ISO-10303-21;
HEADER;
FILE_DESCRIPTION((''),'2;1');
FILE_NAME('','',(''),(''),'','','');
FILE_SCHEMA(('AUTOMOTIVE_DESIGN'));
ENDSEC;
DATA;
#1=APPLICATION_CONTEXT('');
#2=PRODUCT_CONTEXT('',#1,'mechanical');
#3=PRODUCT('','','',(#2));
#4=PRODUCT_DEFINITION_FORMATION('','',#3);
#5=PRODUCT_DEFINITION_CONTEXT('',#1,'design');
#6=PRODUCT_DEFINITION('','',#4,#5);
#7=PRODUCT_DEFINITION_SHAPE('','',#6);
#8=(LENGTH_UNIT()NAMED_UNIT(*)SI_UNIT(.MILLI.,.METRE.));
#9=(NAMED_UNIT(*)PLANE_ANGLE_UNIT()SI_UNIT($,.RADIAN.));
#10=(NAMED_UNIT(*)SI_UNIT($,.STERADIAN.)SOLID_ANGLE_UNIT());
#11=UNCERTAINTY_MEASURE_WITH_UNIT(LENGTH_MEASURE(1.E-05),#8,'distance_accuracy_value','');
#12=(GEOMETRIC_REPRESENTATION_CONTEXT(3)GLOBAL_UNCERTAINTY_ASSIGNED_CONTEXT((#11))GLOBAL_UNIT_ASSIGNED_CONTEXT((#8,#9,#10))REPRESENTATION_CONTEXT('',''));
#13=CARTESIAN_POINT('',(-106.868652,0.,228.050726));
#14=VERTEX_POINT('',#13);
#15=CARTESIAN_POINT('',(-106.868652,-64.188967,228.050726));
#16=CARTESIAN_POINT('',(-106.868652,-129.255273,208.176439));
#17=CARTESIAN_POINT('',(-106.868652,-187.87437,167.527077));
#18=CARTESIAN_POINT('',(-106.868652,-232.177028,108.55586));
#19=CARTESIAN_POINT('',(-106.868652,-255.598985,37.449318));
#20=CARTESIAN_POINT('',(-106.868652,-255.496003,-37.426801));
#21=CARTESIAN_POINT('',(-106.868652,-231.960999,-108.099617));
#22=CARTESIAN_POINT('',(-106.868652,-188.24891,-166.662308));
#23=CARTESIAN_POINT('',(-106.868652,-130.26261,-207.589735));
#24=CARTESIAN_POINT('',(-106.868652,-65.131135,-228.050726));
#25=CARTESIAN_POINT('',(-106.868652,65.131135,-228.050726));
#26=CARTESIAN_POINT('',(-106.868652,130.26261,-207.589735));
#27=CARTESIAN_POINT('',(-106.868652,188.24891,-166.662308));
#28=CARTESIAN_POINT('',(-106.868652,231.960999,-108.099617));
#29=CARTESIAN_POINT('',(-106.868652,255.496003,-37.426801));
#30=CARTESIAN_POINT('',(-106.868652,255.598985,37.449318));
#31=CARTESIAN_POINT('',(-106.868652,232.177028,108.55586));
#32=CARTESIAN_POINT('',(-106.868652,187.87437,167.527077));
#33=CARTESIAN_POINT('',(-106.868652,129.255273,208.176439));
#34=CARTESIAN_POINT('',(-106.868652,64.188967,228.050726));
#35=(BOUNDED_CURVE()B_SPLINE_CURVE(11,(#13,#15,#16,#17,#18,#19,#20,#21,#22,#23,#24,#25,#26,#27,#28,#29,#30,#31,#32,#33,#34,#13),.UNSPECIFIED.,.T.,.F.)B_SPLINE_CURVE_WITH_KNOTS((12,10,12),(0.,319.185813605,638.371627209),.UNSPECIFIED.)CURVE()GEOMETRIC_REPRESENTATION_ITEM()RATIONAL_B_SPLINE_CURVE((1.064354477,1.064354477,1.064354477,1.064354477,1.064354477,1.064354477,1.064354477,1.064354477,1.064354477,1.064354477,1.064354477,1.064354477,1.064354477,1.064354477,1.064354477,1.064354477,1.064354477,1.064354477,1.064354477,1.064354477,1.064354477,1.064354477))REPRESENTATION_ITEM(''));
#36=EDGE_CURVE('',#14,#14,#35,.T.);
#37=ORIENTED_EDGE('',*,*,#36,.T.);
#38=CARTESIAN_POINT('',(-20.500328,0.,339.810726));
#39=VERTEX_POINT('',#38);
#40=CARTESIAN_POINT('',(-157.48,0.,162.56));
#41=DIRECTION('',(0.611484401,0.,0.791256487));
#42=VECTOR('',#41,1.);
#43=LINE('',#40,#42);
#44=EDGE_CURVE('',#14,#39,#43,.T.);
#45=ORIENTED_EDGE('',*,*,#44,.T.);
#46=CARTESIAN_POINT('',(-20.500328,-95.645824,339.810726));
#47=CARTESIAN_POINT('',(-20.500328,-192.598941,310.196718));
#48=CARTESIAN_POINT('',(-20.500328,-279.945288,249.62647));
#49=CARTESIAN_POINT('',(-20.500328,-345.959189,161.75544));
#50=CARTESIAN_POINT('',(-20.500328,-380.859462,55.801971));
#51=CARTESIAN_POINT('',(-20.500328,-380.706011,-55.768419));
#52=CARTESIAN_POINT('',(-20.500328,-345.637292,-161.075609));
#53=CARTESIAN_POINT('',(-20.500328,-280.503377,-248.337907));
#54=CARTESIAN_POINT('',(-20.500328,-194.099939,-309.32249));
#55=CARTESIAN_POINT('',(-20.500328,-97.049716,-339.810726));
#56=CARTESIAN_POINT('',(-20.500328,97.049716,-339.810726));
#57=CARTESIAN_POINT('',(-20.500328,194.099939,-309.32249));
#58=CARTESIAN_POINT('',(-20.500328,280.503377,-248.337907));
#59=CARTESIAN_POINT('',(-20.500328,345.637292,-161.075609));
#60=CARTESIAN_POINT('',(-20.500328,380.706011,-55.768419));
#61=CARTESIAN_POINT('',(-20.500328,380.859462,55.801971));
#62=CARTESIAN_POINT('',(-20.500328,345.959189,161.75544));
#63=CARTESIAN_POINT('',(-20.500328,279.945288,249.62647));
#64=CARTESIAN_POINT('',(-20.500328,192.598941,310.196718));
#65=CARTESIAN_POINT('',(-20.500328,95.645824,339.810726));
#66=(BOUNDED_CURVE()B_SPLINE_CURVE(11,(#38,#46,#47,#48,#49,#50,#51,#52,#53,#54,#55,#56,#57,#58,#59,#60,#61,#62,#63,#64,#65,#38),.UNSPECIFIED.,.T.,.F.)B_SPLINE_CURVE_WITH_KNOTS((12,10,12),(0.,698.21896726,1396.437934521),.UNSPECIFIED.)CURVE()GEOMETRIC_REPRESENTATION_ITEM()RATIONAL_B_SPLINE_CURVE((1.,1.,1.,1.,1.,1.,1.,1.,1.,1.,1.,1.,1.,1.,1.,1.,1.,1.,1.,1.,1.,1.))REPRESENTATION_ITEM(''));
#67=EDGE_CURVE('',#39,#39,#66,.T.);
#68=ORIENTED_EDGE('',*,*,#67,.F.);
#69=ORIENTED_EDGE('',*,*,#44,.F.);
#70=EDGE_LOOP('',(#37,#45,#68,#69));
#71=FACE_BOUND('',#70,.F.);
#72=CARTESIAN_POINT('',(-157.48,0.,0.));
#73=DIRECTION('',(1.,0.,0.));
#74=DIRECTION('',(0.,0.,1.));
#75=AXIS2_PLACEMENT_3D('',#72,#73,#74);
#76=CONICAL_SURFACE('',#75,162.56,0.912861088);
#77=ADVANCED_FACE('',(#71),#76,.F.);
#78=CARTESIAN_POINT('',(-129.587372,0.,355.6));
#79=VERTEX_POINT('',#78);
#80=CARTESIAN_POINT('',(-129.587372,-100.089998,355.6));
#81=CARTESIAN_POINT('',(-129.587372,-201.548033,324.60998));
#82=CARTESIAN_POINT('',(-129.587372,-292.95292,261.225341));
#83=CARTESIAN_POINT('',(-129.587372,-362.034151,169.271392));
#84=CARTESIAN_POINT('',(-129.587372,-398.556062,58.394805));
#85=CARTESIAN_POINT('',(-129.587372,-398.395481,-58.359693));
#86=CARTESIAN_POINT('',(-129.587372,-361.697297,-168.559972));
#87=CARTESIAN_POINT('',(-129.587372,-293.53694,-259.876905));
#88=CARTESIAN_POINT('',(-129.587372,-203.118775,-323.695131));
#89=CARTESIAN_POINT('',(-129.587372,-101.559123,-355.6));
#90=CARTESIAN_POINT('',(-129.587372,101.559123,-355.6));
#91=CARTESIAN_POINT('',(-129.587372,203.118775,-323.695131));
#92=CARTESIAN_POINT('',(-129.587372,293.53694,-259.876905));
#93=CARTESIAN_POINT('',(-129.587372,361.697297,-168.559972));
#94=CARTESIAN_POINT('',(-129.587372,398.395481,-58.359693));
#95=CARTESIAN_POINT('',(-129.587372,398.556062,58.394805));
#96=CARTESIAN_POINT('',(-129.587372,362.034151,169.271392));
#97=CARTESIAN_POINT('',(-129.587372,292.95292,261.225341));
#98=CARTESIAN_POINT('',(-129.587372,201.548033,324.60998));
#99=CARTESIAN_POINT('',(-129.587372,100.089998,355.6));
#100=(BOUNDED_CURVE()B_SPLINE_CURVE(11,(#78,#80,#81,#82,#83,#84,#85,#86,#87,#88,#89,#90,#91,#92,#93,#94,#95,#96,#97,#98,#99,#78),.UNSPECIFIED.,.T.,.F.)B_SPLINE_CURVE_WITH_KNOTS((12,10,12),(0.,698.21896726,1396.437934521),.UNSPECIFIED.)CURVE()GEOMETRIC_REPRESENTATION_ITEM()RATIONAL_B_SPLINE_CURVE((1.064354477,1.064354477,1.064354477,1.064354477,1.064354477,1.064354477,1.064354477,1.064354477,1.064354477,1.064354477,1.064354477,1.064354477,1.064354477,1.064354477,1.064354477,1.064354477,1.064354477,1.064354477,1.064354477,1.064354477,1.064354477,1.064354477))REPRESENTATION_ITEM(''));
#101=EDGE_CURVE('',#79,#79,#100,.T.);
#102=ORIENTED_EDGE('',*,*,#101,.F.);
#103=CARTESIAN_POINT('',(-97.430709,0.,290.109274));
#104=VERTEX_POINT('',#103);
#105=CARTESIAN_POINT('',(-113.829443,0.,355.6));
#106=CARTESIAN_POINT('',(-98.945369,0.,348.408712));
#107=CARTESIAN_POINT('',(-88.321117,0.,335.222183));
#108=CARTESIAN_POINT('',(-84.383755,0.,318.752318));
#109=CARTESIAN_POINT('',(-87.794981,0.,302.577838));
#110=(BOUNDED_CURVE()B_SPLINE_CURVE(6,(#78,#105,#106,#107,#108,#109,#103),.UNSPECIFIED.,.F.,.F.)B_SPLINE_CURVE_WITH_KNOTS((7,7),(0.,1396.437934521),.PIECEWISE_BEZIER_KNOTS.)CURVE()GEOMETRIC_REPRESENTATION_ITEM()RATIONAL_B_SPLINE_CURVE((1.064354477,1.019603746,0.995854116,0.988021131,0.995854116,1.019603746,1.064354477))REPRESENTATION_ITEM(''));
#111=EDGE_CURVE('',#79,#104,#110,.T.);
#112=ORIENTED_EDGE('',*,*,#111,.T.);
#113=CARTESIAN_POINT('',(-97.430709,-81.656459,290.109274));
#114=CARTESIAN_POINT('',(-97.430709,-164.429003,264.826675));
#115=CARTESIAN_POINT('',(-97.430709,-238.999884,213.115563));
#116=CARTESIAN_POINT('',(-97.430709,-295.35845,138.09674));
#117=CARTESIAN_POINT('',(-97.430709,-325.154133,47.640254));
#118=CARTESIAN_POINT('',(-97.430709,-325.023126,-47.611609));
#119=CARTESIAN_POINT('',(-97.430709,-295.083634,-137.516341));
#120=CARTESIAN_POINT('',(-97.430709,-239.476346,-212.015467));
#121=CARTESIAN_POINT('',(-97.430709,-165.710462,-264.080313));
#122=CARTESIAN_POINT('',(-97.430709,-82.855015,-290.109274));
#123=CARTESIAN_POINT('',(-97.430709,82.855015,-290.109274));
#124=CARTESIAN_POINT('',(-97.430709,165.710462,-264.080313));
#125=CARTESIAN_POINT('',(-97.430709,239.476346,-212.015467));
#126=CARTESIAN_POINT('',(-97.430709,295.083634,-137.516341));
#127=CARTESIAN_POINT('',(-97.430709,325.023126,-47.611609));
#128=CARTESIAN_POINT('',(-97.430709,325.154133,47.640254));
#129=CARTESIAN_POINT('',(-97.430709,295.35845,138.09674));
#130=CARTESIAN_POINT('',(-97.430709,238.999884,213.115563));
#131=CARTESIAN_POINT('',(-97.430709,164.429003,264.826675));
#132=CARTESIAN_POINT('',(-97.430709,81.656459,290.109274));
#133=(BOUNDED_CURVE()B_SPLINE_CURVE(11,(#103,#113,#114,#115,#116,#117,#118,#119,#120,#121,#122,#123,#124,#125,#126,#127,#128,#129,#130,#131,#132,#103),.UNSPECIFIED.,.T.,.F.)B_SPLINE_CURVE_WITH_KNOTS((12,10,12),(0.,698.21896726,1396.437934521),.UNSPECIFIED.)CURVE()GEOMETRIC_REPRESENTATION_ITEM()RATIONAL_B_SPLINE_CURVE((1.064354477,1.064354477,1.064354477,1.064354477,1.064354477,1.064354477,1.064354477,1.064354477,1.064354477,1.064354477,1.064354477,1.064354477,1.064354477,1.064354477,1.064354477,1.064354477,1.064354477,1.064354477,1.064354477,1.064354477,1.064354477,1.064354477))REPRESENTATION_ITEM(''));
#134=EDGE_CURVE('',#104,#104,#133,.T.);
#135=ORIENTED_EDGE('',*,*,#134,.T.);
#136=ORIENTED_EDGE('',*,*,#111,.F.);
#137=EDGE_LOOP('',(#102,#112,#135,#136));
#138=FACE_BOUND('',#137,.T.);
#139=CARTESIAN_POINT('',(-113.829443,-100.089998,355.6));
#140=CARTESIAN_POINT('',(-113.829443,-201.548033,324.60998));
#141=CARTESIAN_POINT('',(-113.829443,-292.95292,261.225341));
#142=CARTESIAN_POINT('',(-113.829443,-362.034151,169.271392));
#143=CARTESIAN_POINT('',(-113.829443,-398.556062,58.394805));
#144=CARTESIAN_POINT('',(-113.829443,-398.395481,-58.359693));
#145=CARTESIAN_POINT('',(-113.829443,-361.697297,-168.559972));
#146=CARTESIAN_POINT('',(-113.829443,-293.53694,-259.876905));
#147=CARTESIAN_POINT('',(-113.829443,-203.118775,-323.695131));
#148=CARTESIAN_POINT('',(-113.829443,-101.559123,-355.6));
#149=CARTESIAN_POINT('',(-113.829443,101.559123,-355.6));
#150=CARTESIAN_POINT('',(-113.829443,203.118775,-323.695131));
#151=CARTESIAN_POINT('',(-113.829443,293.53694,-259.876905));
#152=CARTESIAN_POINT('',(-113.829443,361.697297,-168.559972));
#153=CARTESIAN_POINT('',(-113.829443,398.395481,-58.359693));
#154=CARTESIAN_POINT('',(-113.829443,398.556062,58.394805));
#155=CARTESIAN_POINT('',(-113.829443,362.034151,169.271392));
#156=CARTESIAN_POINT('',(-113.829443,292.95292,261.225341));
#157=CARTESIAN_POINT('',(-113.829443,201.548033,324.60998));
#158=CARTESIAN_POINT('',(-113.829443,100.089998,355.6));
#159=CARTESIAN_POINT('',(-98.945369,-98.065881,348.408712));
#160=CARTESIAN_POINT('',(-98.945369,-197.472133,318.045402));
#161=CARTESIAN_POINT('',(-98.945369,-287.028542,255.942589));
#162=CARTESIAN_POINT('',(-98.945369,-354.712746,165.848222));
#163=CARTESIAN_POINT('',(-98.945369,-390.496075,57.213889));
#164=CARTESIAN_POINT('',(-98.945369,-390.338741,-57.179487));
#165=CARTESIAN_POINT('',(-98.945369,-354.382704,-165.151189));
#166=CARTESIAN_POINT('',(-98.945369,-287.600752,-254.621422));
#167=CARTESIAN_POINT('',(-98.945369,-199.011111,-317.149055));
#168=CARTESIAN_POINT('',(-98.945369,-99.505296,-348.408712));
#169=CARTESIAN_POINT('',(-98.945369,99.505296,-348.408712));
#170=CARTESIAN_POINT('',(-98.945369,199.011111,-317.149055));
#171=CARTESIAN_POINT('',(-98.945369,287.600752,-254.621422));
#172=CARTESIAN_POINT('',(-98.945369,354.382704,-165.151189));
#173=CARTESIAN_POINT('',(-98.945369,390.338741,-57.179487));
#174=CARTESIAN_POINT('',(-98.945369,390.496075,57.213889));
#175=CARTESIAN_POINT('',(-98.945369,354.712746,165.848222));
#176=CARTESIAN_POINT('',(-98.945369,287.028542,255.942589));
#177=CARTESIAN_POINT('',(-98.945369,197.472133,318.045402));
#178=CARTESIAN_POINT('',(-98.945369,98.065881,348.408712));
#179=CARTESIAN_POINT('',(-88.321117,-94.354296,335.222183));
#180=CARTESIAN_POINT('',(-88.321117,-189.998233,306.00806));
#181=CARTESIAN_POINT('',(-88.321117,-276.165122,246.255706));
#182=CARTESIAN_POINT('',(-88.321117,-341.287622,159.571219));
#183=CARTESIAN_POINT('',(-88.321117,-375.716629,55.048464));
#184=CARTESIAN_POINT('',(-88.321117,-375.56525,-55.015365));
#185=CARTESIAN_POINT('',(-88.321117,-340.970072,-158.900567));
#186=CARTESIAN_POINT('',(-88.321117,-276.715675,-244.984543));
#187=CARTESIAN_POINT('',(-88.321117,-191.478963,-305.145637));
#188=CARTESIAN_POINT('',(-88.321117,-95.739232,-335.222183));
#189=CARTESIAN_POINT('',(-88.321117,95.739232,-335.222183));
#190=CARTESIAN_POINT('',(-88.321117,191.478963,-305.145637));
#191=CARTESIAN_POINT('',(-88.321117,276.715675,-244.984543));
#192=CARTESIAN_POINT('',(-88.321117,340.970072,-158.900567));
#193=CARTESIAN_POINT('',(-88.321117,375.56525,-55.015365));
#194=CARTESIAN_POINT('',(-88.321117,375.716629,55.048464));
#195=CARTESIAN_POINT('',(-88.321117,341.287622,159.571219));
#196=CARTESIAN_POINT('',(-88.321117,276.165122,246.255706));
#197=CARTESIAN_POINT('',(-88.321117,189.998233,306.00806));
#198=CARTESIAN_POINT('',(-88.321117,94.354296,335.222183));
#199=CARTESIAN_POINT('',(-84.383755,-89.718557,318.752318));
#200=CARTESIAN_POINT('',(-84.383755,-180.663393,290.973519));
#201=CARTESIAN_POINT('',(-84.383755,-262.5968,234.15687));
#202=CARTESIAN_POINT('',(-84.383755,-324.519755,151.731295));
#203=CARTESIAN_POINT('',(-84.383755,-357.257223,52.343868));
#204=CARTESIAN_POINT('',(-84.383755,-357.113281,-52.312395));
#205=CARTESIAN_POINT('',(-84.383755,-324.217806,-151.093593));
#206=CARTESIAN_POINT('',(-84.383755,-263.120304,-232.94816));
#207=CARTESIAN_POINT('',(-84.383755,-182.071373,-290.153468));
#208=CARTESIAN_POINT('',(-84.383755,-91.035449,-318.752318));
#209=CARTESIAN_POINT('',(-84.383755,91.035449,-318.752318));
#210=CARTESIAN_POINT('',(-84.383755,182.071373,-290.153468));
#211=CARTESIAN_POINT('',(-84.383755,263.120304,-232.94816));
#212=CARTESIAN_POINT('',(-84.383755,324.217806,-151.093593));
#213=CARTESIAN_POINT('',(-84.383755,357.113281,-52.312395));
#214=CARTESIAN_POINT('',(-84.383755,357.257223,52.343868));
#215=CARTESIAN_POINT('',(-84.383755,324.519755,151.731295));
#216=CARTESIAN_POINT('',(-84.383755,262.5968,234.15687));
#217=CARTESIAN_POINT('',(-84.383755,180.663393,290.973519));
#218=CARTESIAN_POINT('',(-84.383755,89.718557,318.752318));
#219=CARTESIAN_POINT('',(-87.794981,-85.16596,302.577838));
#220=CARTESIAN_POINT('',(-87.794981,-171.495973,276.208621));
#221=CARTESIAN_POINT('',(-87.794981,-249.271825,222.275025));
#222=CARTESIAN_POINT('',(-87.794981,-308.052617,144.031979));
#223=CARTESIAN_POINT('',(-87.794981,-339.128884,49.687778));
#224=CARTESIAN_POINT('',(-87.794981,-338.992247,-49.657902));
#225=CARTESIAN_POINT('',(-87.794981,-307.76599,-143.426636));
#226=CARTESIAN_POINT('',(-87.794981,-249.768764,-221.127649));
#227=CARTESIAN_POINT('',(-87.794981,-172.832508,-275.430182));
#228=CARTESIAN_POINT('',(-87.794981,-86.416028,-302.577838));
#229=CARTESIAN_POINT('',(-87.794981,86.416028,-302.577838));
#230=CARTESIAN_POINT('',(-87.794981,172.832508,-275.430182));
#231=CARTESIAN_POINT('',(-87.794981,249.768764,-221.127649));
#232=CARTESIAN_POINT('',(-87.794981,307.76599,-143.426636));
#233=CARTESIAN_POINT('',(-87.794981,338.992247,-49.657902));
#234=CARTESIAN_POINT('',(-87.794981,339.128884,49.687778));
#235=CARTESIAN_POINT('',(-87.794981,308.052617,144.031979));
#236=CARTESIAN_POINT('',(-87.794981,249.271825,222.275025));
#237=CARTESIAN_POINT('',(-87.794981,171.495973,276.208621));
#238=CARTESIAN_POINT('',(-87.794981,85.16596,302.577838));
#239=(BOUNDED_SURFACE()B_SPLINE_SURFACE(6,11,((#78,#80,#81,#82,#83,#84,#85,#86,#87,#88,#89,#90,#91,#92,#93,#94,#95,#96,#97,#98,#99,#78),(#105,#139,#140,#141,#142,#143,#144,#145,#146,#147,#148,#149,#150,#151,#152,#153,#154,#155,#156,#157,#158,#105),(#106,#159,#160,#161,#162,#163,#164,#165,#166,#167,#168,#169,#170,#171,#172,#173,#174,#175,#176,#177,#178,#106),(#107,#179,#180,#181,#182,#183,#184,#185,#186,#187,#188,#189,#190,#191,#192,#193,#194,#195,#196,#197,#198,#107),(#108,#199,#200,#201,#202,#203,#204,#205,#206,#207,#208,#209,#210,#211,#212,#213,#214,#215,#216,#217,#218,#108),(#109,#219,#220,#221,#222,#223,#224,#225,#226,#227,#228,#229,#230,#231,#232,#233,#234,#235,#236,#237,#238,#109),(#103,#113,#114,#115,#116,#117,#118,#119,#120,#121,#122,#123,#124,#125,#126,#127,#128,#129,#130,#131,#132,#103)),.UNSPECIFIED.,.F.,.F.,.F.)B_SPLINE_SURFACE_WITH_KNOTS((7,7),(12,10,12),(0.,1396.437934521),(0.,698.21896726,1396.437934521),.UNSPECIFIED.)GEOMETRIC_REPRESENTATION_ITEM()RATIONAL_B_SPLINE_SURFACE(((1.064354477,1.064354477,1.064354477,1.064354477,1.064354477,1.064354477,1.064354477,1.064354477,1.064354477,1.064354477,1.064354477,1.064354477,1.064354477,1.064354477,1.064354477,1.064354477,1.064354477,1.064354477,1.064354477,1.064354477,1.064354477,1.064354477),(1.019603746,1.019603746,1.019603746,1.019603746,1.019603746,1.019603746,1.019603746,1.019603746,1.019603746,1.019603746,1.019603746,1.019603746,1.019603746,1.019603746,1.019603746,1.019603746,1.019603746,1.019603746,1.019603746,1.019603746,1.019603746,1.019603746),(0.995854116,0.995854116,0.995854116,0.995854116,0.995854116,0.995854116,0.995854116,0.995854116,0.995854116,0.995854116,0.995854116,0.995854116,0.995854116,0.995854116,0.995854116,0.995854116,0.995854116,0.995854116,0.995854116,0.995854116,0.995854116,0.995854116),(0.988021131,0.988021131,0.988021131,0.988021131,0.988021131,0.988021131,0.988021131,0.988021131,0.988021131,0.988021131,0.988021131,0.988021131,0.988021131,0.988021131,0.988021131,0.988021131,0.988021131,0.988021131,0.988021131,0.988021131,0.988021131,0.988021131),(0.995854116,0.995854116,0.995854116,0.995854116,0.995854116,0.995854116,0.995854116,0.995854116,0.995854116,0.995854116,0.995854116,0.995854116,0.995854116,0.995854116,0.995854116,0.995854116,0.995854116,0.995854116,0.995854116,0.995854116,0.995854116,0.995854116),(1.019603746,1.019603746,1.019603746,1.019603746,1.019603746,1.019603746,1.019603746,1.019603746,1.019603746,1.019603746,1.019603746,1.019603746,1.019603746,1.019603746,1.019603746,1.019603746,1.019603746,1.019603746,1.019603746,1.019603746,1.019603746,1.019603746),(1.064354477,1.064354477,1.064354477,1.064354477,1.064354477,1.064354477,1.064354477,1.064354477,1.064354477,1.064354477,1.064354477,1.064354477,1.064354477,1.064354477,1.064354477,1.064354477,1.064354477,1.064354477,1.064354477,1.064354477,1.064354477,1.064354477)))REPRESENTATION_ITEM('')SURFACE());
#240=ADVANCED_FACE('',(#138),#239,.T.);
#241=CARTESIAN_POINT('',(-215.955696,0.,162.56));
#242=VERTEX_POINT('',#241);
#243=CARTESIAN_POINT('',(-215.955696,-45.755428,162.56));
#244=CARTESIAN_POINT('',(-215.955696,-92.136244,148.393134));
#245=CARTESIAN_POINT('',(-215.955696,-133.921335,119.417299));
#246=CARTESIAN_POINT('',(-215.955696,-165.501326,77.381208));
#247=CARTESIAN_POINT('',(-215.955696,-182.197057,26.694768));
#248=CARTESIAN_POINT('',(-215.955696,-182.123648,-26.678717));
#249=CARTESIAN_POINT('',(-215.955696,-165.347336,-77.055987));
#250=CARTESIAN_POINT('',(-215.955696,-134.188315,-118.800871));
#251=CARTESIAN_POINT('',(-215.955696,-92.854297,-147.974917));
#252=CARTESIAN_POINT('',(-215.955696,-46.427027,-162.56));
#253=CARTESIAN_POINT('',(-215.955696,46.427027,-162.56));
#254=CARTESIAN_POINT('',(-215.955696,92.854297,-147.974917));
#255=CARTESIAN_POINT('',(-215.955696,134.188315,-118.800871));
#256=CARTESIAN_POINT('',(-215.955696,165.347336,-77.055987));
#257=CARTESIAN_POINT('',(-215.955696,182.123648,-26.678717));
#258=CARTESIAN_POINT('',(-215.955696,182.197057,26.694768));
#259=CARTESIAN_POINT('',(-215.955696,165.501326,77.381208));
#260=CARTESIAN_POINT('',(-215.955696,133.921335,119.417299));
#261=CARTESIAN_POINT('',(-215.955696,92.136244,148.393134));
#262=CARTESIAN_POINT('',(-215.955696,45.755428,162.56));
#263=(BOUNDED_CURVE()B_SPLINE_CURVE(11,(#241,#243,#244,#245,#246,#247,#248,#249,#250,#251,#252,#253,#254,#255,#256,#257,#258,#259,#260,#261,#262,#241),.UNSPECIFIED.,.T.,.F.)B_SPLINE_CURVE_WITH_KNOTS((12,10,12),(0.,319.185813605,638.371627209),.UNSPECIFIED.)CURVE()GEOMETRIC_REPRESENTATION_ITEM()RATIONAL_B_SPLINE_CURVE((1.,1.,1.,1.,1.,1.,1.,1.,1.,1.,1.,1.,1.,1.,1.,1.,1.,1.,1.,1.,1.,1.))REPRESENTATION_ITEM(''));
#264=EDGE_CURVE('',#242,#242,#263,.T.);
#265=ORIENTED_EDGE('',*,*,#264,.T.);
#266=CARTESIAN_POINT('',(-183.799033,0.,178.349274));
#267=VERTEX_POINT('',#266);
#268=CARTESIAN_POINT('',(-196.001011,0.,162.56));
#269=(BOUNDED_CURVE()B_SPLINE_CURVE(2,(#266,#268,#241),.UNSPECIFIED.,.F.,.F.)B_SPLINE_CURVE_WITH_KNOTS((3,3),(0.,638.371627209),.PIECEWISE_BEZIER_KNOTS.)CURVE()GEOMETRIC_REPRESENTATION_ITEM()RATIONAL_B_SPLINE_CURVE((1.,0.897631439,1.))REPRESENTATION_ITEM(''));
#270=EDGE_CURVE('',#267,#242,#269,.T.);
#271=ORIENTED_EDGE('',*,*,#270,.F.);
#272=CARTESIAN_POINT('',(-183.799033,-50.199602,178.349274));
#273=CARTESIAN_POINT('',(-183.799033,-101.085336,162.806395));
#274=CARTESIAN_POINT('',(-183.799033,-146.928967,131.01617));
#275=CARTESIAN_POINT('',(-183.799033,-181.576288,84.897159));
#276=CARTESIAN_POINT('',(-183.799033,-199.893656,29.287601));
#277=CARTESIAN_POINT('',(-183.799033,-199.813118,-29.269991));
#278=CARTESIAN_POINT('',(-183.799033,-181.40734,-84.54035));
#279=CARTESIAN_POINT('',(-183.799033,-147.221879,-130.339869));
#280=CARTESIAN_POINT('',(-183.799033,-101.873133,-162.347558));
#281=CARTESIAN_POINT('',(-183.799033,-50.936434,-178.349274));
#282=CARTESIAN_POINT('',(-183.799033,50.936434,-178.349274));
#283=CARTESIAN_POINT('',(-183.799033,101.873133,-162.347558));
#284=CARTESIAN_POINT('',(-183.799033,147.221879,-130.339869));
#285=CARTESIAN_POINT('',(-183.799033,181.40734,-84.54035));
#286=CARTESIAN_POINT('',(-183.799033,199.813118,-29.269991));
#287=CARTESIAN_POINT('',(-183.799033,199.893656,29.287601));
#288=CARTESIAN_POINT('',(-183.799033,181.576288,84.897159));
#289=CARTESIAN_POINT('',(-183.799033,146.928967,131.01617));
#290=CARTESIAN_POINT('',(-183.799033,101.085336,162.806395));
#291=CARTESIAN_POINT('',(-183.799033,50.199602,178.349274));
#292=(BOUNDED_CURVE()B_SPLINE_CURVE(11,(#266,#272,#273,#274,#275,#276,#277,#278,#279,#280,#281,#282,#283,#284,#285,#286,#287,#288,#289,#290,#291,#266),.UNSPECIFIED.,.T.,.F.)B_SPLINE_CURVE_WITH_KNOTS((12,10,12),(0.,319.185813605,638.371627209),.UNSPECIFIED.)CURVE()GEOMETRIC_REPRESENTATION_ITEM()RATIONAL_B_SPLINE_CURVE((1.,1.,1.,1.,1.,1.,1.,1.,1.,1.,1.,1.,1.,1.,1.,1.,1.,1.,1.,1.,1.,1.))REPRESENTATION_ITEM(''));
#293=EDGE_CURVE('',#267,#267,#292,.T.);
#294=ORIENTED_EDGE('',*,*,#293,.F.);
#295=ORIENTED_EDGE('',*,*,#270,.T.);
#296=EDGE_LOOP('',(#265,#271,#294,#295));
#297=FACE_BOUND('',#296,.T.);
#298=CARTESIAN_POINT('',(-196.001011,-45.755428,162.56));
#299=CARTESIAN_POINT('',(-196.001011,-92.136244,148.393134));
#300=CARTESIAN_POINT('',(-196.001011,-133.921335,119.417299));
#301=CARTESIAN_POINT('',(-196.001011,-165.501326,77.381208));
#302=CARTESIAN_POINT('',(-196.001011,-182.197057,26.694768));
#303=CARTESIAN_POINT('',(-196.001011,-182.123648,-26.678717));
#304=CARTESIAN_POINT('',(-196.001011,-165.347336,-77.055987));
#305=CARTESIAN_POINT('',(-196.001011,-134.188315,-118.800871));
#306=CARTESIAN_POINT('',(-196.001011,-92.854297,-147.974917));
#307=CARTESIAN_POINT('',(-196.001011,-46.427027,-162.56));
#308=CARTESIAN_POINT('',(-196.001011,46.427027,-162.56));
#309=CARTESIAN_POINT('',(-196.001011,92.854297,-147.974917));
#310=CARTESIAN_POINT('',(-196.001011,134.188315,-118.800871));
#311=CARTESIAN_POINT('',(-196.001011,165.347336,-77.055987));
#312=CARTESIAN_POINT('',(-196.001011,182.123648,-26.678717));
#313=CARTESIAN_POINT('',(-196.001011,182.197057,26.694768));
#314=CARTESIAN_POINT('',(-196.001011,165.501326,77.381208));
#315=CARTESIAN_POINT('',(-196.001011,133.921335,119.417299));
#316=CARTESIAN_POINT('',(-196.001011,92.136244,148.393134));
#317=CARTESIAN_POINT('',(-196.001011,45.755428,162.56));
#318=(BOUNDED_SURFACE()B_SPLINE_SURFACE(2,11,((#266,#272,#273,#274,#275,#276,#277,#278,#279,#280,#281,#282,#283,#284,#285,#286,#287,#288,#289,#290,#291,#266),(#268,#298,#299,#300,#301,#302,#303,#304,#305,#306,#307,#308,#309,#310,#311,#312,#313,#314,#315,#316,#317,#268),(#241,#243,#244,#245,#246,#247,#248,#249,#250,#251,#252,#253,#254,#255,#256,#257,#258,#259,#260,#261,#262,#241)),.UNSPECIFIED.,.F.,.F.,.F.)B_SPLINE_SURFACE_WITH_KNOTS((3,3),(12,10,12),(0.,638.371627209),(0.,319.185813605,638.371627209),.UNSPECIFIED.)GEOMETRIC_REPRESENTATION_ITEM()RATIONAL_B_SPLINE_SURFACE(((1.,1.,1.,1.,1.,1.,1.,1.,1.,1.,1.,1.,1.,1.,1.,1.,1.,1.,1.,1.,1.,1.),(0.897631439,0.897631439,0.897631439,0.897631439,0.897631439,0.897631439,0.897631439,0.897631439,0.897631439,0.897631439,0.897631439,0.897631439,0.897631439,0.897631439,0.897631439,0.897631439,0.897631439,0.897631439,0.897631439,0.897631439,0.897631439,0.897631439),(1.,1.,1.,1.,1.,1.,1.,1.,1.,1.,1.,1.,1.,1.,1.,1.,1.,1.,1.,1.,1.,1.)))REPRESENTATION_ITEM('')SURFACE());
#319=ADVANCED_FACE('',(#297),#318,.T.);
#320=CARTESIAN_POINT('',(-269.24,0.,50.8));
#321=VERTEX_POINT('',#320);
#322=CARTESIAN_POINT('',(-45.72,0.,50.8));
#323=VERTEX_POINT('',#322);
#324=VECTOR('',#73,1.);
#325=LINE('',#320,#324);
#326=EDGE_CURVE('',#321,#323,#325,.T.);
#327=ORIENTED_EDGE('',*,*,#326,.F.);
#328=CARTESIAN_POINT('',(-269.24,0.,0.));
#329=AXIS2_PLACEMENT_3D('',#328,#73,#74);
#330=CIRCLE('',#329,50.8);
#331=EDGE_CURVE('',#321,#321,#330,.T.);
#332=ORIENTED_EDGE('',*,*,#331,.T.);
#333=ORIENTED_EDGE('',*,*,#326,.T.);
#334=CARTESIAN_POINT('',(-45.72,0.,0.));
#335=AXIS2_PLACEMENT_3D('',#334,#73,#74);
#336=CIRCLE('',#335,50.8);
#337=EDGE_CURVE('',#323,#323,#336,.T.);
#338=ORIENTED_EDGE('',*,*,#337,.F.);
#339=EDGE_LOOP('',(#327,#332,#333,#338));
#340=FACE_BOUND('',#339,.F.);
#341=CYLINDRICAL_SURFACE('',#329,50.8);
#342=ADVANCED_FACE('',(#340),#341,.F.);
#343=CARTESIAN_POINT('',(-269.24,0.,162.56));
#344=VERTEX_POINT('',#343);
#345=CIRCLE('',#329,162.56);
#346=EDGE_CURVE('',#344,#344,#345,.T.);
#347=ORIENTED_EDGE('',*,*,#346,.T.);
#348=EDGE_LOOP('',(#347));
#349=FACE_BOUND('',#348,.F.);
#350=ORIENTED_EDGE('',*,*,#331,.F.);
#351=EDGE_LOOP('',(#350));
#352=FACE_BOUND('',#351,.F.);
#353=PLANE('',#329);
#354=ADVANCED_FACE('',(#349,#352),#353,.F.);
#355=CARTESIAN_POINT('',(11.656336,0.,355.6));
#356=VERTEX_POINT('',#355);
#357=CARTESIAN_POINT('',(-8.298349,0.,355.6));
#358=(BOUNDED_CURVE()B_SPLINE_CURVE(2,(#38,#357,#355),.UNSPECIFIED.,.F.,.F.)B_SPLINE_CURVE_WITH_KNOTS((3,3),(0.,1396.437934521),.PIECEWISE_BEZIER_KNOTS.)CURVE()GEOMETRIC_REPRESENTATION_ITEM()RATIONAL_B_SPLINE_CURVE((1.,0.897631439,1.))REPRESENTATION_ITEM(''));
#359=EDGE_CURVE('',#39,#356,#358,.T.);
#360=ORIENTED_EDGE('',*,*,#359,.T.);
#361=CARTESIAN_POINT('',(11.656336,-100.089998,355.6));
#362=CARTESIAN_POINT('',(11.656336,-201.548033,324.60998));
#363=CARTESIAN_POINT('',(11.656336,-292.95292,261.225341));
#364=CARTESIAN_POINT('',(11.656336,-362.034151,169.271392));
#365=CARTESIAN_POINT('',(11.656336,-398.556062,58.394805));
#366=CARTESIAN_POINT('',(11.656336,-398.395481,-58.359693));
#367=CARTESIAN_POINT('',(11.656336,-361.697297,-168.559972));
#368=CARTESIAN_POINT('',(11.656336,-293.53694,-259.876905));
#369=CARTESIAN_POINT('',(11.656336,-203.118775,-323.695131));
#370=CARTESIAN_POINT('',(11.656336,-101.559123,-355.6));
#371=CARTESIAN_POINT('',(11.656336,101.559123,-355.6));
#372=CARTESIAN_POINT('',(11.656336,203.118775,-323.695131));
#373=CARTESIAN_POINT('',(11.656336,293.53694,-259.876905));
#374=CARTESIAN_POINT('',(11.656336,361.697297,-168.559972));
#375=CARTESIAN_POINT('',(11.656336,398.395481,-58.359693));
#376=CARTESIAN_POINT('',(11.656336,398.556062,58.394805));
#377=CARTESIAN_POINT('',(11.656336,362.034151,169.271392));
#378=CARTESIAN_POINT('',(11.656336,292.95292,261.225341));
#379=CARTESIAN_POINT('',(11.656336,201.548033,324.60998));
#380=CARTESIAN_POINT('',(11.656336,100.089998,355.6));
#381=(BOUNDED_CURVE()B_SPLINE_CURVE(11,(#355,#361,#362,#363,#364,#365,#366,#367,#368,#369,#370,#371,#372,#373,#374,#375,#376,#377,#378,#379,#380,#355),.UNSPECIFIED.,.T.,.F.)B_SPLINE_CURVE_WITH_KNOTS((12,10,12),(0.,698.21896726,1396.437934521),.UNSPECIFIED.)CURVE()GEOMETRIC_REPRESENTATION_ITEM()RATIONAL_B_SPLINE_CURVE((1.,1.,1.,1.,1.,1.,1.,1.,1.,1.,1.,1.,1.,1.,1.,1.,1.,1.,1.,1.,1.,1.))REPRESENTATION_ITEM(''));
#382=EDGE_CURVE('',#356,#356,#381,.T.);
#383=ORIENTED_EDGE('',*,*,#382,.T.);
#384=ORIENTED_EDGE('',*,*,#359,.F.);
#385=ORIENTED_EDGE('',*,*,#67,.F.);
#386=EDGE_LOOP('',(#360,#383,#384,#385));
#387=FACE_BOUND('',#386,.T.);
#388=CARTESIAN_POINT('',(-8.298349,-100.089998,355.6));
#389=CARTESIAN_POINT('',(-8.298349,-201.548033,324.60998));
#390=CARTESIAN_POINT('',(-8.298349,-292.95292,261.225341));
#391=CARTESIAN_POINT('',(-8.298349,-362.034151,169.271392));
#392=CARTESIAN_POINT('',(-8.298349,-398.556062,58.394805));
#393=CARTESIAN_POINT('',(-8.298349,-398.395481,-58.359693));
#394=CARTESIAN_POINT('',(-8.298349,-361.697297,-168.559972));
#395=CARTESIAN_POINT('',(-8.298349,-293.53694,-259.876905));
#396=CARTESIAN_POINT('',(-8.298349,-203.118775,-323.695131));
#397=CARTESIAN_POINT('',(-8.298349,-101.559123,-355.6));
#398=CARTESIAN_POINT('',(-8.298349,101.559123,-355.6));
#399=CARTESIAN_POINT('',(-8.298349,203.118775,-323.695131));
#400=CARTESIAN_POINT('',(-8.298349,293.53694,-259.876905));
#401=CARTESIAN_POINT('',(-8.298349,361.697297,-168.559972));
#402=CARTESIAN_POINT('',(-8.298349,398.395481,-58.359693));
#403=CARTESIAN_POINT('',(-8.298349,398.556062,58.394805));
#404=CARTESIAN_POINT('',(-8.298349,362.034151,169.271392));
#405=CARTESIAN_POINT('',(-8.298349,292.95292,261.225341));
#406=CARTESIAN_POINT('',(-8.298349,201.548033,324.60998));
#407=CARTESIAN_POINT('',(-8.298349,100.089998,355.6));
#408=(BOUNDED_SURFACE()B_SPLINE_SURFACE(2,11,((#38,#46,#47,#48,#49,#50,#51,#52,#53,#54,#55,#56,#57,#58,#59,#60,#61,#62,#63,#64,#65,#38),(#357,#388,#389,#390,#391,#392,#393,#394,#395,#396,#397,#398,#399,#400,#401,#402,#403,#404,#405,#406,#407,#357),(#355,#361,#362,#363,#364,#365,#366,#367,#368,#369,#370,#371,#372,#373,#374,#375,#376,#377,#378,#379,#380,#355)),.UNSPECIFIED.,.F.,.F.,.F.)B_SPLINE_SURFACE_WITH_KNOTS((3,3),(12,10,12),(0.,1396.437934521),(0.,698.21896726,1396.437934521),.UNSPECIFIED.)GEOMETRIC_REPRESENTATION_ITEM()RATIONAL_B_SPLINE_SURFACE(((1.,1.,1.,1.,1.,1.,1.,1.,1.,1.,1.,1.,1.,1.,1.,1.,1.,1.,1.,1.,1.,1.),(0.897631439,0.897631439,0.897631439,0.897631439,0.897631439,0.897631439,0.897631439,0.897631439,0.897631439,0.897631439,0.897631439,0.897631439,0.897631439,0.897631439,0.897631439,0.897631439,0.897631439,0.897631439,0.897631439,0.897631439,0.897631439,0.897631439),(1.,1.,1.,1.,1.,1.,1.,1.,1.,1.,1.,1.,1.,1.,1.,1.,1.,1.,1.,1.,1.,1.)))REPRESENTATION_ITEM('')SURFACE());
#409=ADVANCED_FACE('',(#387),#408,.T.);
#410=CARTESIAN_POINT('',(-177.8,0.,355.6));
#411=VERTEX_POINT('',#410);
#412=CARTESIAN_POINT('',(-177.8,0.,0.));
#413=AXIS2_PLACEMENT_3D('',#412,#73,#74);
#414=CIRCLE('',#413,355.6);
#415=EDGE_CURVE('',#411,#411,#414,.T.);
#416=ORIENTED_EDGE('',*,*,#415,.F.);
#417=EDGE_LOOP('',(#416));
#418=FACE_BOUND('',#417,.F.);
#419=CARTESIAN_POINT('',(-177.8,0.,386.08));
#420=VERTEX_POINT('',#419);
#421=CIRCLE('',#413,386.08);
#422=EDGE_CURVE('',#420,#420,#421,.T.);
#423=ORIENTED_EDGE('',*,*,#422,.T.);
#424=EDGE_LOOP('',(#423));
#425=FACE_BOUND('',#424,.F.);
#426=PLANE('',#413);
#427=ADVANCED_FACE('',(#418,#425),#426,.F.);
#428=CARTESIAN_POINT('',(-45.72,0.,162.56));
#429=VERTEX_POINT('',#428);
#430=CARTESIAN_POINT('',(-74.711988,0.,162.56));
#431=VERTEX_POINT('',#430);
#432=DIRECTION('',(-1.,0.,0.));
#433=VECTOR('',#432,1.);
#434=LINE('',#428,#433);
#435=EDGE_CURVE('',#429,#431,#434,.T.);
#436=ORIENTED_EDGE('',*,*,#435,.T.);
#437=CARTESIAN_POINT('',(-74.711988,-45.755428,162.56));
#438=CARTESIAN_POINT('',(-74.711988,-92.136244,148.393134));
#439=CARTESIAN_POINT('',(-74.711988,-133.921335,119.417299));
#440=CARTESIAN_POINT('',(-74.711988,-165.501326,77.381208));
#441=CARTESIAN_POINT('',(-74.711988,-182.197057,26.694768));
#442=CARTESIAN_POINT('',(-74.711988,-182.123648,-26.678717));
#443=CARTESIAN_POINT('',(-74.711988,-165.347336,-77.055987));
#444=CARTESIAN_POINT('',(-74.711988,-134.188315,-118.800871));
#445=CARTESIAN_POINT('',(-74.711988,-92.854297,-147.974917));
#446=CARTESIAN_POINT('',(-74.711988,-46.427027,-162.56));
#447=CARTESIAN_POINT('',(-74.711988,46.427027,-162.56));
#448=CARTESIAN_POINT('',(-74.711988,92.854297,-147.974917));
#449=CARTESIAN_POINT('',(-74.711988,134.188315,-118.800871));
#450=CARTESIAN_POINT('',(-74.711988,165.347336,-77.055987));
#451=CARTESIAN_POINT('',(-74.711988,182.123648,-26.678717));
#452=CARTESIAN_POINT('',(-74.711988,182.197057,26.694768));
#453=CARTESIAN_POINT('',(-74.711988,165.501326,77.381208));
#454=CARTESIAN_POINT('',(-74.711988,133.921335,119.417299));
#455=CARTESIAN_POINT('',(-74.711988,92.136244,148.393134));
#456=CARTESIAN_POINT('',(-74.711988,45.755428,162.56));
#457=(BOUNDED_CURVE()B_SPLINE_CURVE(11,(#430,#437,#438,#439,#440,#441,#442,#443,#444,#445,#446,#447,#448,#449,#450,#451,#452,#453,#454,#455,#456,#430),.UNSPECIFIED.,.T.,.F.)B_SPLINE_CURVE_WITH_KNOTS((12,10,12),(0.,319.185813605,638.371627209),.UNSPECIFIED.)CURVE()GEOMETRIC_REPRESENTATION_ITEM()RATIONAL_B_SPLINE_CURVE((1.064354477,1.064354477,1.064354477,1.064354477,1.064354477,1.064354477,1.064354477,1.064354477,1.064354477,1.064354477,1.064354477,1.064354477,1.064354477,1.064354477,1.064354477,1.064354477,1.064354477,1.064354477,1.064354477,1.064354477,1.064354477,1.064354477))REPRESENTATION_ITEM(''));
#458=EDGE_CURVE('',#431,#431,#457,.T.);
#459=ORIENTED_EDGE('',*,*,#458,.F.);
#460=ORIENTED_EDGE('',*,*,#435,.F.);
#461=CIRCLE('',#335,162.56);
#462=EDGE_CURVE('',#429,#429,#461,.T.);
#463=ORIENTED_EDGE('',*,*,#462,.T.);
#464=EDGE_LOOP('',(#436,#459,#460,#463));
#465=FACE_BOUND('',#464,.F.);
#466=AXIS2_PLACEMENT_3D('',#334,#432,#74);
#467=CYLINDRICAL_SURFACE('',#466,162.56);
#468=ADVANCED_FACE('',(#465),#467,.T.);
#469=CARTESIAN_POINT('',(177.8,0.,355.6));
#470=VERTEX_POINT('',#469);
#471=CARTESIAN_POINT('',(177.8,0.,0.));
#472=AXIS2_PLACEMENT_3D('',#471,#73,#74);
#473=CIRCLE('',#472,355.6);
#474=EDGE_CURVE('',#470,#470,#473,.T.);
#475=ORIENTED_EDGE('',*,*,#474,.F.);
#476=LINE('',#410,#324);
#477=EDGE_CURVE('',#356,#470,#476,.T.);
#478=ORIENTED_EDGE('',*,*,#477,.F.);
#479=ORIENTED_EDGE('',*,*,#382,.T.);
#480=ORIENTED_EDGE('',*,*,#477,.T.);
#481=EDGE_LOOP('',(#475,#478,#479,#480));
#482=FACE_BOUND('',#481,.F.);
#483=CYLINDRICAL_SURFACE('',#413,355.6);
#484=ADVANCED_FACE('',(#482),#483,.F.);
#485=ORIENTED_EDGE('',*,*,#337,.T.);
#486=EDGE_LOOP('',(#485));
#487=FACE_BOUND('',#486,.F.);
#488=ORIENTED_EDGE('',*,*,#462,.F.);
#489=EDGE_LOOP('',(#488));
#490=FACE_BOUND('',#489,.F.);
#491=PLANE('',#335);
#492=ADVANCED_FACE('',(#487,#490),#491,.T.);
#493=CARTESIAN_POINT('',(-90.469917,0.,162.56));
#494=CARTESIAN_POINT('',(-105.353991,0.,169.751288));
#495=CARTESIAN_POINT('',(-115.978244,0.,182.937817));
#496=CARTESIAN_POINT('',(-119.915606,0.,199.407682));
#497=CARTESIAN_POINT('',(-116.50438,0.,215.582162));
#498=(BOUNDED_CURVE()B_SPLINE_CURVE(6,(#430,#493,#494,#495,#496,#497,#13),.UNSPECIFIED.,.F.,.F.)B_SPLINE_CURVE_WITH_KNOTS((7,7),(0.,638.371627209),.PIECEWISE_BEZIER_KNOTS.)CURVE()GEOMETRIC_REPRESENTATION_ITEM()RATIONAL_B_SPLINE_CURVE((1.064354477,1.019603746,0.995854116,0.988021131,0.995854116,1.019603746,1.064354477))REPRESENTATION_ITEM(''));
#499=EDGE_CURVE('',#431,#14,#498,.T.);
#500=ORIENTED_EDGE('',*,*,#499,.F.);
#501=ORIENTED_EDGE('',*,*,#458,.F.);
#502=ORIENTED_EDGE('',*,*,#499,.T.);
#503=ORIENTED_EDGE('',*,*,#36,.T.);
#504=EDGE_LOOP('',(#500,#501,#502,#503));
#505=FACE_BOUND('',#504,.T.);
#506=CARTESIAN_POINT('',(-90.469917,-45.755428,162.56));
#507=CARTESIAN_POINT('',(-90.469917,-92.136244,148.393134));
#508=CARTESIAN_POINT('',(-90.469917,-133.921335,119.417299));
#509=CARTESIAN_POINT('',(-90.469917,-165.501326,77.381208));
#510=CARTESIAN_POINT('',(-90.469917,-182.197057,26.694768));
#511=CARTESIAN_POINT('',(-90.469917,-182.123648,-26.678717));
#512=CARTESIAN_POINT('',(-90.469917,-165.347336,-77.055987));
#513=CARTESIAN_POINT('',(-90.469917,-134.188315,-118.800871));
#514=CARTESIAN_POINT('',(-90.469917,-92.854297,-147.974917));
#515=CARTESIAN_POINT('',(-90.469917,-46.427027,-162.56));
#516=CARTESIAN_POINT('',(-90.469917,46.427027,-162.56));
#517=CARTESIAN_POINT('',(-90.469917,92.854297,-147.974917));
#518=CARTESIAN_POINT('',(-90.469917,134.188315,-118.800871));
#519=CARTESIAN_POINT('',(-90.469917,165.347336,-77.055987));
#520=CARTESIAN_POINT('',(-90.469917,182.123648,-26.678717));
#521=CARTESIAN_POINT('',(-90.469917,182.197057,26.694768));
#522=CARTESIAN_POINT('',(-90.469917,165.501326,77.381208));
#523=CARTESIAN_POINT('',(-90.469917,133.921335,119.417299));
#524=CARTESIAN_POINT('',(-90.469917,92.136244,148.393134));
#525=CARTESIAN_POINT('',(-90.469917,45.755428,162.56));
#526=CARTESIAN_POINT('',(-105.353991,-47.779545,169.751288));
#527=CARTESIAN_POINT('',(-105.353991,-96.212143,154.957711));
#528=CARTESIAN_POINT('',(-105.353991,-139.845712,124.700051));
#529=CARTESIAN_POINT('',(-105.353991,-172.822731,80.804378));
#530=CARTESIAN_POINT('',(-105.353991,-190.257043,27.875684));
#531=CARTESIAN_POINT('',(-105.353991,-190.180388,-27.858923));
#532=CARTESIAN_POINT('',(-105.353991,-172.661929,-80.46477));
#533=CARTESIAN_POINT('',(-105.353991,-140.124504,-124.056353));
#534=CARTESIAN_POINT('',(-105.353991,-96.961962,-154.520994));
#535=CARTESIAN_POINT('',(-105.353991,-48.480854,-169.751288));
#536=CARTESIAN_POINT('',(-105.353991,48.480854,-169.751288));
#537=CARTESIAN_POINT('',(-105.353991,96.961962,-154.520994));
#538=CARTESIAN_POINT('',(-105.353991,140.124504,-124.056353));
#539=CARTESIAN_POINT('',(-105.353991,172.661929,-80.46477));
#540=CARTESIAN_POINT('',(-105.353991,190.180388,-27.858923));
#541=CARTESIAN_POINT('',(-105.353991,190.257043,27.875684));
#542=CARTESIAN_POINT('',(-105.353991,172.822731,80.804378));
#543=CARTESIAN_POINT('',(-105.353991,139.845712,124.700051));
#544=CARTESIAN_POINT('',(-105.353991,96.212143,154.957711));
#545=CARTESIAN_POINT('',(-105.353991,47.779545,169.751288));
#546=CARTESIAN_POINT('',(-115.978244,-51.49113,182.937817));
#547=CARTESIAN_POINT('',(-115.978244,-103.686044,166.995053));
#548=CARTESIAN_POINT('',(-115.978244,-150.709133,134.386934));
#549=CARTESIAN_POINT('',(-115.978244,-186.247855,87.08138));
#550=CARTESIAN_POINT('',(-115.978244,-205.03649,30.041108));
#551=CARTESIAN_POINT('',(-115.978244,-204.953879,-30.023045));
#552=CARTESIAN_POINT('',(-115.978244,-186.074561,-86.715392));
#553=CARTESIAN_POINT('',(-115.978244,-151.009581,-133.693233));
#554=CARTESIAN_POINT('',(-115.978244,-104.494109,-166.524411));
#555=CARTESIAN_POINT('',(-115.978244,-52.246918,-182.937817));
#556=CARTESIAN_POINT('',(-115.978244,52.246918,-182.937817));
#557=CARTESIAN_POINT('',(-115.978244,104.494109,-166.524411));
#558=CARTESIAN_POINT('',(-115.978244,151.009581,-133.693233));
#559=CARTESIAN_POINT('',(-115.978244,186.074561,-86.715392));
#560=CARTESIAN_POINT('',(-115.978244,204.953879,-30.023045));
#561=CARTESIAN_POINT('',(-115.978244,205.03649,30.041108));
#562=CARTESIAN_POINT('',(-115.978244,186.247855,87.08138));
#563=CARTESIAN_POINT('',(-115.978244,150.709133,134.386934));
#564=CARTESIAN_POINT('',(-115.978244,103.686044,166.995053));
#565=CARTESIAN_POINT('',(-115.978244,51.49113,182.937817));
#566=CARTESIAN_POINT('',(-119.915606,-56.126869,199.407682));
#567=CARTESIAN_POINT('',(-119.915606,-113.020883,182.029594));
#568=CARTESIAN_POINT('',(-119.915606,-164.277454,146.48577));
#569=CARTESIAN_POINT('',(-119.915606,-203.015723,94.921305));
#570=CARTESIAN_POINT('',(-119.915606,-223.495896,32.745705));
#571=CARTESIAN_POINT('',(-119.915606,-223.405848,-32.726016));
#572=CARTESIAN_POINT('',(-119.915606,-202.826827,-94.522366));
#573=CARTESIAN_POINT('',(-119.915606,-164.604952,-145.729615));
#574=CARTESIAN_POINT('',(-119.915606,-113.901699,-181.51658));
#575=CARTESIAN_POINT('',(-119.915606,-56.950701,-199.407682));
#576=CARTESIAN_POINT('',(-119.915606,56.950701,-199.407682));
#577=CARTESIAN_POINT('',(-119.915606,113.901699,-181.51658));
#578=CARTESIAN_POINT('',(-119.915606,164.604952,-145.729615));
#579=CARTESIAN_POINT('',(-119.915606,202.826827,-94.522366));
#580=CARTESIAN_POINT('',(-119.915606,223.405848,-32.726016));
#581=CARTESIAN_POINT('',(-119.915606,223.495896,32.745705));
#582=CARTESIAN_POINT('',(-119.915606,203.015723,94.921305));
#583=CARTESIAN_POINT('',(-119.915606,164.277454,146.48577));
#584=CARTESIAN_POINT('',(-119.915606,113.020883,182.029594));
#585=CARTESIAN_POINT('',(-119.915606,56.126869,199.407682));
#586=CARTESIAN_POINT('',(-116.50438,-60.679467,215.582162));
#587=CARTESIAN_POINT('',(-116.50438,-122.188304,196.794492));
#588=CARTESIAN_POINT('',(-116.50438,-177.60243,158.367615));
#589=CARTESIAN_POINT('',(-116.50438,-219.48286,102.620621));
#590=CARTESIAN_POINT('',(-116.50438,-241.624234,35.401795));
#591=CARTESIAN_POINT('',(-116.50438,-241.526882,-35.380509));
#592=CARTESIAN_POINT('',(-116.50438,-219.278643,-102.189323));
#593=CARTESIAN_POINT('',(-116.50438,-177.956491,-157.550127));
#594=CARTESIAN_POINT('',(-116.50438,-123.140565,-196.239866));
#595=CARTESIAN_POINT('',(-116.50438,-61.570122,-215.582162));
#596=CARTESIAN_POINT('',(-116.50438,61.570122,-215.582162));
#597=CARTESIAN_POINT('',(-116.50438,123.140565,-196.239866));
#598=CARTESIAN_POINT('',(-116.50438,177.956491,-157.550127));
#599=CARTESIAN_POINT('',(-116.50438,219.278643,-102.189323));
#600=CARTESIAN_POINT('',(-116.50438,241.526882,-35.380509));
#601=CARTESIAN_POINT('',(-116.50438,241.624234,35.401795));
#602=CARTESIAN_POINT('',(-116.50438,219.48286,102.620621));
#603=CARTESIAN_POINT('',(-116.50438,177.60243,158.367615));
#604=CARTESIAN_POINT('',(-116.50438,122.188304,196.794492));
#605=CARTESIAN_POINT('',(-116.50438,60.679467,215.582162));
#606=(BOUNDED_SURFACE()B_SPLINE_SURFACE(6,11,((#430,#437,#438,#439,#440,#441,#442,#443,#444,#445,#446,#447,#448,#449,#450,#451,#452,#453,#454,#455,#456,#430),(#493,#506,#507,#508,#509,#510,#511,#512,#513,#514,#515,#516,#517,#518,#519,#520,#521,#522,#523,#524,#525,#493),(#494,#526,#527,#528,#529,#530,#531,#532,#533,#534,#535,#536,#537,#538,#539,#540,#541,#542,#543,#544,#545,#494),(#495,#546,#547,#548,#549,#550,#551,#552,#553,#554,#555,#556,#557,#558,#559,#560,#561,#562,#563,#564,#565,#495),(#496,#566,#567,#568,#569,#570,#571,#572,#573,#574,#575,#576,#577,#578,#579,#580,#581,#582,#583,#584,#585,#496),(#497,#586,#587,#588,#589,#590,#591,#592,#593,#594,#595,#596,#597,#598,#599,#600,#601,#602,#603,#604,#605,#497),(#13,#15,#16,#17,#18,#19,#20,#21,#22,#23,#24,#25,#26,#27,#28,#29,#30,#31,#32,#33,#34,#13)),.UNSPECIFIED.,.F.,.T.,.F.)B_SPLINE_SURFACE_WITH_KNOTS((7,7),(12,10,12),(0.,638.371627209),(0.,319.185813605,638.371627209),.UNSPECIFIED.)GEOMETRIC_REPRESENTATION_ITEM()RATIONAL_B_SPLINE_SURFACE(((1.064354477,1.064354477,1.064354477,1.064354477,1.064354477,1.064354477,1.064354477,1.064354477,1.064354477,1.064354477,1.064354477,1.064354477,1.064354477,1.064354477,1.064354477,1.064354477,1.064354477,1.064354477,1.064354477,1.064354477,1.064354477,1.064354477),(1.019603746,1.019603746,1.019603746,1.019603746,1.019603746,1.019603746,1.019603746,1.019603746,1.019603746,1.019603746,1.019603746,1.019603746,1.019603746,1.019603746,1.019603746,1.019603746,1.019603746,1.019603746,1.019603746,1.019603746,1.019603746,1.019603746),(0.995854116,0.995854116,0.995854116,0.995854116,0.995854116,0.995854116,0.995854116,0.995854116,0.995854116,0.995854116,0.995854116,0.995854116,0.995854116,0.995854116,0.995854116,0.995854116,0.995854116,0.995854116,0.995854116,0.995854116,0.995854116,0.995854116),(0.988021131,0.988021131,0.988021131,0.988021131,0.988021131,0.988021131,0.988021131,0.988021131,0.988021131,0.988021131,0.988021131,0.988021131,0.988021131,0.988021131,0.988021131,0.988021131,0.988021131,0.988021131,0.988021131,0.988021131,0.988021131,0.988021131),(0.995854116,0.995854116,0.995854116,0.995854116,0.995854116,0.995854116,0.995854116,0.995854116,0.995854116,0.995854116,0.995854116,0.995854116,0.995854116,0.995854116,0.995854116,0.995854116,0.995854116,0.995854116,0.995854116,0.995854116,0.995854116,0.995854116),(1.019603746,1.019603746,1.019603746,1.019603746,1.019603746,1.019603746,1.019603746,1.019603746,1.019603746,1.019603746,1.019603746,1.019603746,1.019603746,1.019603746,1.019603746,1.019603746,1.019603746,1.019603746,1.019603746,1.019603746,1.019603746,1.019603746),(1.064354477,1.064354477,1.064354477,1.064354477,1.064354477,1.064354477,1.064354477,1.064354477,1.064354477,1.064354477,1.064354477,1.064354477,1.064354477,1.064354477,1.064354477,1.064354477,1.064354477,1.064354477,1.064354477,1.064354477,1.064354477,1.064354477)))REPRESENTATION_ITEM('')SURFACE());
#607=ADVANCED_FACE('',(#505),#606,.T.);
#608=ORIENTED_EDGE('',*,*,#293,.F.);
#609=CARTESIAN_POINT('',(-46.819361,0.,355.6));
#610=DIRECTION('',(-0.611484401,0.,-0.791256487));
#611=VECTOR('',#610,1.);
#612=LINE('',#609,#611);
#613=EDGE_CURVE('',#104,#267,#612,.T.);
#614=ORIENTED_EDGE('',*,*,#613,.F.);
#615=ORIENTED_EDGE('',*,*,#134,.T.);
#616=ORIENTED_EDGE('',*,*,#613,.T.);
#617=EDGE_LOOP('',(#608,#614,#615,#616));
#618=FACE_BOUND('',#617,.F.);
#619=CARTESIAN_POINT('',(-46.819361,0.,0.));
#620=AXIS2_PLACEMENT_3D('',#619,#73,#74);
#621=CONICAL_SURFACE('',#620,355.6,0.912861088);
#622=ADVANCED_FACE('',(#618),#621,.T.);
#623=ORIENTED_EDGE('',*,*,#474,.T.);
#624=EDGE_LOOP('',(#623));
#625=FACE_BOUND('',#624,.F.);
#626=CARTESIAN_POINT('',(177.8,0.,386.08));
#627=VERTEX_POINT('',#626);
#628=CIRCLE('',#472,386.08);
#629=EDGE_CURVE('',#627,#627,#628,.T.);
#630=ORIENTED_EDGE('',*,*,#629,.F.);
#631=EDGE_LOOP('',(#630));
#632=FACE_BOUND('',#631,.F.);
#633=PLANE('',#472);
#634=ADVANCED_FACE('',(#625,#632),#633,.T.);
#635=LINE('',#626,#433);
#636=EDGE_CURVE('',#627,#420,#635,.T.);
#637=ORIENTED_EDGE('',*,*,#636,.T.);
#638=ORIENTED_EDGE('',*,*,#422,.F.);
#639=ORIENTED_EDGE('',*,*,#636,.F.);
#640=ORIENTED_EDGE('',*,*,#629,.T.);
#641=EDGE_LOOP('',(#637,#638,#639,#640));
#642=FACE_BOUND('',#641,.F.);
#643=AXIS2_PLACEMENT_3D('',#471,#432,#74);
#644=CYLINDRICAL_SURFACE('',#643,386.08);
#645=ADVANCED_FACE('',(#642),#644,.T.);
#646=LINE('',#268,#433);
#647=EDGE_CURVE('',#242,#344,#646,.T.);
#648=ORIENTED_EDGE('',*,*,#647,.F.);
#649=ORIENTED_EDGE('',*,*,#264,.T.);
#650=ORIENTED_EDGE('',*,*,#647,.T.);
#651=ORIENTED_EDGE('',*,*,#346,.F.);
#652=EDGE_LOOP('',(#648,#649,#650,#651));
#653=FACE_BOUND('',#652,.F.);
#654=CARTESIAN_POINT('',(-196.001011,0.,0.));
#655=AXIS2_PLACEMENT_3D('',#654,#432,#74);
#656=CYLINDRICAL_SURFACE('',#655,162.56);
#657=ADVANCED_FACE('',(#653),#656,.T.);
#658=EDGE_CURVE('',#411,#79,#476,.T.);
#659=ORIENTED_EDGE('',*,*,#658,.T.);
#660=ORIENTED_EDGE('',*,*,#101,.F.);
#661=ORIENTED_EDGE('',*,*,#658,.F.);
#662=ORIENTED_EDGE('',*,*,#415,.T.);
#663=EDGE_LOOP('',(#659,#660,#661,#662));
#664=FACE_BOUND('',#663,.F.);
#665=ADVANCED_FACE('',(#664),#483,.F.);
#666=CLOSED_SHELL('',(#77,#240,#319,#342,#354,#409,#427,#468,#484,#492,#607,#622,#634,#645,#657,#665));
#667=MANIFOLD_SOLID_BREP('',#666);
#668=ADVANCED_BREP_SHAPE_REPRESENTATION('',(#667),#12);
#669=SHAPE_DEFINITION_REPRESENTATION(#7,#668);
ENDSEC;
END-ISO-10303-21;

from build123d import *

# Parameters (mm, degrees)
F2_R     = 25.4
F3_SCALE = 1.6


with BuildPart() as f1:
    # F0 (on Front) → F1 (revolve)
    with BuildSketch(Plane.XZ):
        Polygon((111.125, 222.25), (111.125, 241.3), (-111.125, 241.3), (-111.125, 222.25), (-29.2621003771, 222.25), (-5.1864683628, 222.25), align=None)
        Polygon((-98.425, 101.6), (-5.1864683628, 222.25), (-29.2621003771, 222.25), (-122.5006320143, 101.6), align=None)
        Polygon((-28.575, 101.6), (-98.425, 101.6), (-122.5006320143, 101.6), (-168.275, 101.6), (-168.275, 31.75), (-28.575, 31.75), align=None)
    revolve(axis=Axis((-5.1864683628, 0, 0), (1, 0, 0)))

    # F2
    f2_edges = [f1.edges().sort_by_distance(p)[0] for p in [
        (-98.425, 0, -101.6),
        (-5.186468, 0, -222.25),
        (-51.805734, 0, 161.925),
        (-29.2621, 0, -222.25),
        (-122.500632, 0, -101.6),
        (-75.881366, 0, 161.925),
    ]]
    fillet(f2_edges, radius=F2_R)


with BuildPart() as f1_1:
    # F3: moved
    add(f1.part.scale(F3_SCALE))


solid = f1_1.part
